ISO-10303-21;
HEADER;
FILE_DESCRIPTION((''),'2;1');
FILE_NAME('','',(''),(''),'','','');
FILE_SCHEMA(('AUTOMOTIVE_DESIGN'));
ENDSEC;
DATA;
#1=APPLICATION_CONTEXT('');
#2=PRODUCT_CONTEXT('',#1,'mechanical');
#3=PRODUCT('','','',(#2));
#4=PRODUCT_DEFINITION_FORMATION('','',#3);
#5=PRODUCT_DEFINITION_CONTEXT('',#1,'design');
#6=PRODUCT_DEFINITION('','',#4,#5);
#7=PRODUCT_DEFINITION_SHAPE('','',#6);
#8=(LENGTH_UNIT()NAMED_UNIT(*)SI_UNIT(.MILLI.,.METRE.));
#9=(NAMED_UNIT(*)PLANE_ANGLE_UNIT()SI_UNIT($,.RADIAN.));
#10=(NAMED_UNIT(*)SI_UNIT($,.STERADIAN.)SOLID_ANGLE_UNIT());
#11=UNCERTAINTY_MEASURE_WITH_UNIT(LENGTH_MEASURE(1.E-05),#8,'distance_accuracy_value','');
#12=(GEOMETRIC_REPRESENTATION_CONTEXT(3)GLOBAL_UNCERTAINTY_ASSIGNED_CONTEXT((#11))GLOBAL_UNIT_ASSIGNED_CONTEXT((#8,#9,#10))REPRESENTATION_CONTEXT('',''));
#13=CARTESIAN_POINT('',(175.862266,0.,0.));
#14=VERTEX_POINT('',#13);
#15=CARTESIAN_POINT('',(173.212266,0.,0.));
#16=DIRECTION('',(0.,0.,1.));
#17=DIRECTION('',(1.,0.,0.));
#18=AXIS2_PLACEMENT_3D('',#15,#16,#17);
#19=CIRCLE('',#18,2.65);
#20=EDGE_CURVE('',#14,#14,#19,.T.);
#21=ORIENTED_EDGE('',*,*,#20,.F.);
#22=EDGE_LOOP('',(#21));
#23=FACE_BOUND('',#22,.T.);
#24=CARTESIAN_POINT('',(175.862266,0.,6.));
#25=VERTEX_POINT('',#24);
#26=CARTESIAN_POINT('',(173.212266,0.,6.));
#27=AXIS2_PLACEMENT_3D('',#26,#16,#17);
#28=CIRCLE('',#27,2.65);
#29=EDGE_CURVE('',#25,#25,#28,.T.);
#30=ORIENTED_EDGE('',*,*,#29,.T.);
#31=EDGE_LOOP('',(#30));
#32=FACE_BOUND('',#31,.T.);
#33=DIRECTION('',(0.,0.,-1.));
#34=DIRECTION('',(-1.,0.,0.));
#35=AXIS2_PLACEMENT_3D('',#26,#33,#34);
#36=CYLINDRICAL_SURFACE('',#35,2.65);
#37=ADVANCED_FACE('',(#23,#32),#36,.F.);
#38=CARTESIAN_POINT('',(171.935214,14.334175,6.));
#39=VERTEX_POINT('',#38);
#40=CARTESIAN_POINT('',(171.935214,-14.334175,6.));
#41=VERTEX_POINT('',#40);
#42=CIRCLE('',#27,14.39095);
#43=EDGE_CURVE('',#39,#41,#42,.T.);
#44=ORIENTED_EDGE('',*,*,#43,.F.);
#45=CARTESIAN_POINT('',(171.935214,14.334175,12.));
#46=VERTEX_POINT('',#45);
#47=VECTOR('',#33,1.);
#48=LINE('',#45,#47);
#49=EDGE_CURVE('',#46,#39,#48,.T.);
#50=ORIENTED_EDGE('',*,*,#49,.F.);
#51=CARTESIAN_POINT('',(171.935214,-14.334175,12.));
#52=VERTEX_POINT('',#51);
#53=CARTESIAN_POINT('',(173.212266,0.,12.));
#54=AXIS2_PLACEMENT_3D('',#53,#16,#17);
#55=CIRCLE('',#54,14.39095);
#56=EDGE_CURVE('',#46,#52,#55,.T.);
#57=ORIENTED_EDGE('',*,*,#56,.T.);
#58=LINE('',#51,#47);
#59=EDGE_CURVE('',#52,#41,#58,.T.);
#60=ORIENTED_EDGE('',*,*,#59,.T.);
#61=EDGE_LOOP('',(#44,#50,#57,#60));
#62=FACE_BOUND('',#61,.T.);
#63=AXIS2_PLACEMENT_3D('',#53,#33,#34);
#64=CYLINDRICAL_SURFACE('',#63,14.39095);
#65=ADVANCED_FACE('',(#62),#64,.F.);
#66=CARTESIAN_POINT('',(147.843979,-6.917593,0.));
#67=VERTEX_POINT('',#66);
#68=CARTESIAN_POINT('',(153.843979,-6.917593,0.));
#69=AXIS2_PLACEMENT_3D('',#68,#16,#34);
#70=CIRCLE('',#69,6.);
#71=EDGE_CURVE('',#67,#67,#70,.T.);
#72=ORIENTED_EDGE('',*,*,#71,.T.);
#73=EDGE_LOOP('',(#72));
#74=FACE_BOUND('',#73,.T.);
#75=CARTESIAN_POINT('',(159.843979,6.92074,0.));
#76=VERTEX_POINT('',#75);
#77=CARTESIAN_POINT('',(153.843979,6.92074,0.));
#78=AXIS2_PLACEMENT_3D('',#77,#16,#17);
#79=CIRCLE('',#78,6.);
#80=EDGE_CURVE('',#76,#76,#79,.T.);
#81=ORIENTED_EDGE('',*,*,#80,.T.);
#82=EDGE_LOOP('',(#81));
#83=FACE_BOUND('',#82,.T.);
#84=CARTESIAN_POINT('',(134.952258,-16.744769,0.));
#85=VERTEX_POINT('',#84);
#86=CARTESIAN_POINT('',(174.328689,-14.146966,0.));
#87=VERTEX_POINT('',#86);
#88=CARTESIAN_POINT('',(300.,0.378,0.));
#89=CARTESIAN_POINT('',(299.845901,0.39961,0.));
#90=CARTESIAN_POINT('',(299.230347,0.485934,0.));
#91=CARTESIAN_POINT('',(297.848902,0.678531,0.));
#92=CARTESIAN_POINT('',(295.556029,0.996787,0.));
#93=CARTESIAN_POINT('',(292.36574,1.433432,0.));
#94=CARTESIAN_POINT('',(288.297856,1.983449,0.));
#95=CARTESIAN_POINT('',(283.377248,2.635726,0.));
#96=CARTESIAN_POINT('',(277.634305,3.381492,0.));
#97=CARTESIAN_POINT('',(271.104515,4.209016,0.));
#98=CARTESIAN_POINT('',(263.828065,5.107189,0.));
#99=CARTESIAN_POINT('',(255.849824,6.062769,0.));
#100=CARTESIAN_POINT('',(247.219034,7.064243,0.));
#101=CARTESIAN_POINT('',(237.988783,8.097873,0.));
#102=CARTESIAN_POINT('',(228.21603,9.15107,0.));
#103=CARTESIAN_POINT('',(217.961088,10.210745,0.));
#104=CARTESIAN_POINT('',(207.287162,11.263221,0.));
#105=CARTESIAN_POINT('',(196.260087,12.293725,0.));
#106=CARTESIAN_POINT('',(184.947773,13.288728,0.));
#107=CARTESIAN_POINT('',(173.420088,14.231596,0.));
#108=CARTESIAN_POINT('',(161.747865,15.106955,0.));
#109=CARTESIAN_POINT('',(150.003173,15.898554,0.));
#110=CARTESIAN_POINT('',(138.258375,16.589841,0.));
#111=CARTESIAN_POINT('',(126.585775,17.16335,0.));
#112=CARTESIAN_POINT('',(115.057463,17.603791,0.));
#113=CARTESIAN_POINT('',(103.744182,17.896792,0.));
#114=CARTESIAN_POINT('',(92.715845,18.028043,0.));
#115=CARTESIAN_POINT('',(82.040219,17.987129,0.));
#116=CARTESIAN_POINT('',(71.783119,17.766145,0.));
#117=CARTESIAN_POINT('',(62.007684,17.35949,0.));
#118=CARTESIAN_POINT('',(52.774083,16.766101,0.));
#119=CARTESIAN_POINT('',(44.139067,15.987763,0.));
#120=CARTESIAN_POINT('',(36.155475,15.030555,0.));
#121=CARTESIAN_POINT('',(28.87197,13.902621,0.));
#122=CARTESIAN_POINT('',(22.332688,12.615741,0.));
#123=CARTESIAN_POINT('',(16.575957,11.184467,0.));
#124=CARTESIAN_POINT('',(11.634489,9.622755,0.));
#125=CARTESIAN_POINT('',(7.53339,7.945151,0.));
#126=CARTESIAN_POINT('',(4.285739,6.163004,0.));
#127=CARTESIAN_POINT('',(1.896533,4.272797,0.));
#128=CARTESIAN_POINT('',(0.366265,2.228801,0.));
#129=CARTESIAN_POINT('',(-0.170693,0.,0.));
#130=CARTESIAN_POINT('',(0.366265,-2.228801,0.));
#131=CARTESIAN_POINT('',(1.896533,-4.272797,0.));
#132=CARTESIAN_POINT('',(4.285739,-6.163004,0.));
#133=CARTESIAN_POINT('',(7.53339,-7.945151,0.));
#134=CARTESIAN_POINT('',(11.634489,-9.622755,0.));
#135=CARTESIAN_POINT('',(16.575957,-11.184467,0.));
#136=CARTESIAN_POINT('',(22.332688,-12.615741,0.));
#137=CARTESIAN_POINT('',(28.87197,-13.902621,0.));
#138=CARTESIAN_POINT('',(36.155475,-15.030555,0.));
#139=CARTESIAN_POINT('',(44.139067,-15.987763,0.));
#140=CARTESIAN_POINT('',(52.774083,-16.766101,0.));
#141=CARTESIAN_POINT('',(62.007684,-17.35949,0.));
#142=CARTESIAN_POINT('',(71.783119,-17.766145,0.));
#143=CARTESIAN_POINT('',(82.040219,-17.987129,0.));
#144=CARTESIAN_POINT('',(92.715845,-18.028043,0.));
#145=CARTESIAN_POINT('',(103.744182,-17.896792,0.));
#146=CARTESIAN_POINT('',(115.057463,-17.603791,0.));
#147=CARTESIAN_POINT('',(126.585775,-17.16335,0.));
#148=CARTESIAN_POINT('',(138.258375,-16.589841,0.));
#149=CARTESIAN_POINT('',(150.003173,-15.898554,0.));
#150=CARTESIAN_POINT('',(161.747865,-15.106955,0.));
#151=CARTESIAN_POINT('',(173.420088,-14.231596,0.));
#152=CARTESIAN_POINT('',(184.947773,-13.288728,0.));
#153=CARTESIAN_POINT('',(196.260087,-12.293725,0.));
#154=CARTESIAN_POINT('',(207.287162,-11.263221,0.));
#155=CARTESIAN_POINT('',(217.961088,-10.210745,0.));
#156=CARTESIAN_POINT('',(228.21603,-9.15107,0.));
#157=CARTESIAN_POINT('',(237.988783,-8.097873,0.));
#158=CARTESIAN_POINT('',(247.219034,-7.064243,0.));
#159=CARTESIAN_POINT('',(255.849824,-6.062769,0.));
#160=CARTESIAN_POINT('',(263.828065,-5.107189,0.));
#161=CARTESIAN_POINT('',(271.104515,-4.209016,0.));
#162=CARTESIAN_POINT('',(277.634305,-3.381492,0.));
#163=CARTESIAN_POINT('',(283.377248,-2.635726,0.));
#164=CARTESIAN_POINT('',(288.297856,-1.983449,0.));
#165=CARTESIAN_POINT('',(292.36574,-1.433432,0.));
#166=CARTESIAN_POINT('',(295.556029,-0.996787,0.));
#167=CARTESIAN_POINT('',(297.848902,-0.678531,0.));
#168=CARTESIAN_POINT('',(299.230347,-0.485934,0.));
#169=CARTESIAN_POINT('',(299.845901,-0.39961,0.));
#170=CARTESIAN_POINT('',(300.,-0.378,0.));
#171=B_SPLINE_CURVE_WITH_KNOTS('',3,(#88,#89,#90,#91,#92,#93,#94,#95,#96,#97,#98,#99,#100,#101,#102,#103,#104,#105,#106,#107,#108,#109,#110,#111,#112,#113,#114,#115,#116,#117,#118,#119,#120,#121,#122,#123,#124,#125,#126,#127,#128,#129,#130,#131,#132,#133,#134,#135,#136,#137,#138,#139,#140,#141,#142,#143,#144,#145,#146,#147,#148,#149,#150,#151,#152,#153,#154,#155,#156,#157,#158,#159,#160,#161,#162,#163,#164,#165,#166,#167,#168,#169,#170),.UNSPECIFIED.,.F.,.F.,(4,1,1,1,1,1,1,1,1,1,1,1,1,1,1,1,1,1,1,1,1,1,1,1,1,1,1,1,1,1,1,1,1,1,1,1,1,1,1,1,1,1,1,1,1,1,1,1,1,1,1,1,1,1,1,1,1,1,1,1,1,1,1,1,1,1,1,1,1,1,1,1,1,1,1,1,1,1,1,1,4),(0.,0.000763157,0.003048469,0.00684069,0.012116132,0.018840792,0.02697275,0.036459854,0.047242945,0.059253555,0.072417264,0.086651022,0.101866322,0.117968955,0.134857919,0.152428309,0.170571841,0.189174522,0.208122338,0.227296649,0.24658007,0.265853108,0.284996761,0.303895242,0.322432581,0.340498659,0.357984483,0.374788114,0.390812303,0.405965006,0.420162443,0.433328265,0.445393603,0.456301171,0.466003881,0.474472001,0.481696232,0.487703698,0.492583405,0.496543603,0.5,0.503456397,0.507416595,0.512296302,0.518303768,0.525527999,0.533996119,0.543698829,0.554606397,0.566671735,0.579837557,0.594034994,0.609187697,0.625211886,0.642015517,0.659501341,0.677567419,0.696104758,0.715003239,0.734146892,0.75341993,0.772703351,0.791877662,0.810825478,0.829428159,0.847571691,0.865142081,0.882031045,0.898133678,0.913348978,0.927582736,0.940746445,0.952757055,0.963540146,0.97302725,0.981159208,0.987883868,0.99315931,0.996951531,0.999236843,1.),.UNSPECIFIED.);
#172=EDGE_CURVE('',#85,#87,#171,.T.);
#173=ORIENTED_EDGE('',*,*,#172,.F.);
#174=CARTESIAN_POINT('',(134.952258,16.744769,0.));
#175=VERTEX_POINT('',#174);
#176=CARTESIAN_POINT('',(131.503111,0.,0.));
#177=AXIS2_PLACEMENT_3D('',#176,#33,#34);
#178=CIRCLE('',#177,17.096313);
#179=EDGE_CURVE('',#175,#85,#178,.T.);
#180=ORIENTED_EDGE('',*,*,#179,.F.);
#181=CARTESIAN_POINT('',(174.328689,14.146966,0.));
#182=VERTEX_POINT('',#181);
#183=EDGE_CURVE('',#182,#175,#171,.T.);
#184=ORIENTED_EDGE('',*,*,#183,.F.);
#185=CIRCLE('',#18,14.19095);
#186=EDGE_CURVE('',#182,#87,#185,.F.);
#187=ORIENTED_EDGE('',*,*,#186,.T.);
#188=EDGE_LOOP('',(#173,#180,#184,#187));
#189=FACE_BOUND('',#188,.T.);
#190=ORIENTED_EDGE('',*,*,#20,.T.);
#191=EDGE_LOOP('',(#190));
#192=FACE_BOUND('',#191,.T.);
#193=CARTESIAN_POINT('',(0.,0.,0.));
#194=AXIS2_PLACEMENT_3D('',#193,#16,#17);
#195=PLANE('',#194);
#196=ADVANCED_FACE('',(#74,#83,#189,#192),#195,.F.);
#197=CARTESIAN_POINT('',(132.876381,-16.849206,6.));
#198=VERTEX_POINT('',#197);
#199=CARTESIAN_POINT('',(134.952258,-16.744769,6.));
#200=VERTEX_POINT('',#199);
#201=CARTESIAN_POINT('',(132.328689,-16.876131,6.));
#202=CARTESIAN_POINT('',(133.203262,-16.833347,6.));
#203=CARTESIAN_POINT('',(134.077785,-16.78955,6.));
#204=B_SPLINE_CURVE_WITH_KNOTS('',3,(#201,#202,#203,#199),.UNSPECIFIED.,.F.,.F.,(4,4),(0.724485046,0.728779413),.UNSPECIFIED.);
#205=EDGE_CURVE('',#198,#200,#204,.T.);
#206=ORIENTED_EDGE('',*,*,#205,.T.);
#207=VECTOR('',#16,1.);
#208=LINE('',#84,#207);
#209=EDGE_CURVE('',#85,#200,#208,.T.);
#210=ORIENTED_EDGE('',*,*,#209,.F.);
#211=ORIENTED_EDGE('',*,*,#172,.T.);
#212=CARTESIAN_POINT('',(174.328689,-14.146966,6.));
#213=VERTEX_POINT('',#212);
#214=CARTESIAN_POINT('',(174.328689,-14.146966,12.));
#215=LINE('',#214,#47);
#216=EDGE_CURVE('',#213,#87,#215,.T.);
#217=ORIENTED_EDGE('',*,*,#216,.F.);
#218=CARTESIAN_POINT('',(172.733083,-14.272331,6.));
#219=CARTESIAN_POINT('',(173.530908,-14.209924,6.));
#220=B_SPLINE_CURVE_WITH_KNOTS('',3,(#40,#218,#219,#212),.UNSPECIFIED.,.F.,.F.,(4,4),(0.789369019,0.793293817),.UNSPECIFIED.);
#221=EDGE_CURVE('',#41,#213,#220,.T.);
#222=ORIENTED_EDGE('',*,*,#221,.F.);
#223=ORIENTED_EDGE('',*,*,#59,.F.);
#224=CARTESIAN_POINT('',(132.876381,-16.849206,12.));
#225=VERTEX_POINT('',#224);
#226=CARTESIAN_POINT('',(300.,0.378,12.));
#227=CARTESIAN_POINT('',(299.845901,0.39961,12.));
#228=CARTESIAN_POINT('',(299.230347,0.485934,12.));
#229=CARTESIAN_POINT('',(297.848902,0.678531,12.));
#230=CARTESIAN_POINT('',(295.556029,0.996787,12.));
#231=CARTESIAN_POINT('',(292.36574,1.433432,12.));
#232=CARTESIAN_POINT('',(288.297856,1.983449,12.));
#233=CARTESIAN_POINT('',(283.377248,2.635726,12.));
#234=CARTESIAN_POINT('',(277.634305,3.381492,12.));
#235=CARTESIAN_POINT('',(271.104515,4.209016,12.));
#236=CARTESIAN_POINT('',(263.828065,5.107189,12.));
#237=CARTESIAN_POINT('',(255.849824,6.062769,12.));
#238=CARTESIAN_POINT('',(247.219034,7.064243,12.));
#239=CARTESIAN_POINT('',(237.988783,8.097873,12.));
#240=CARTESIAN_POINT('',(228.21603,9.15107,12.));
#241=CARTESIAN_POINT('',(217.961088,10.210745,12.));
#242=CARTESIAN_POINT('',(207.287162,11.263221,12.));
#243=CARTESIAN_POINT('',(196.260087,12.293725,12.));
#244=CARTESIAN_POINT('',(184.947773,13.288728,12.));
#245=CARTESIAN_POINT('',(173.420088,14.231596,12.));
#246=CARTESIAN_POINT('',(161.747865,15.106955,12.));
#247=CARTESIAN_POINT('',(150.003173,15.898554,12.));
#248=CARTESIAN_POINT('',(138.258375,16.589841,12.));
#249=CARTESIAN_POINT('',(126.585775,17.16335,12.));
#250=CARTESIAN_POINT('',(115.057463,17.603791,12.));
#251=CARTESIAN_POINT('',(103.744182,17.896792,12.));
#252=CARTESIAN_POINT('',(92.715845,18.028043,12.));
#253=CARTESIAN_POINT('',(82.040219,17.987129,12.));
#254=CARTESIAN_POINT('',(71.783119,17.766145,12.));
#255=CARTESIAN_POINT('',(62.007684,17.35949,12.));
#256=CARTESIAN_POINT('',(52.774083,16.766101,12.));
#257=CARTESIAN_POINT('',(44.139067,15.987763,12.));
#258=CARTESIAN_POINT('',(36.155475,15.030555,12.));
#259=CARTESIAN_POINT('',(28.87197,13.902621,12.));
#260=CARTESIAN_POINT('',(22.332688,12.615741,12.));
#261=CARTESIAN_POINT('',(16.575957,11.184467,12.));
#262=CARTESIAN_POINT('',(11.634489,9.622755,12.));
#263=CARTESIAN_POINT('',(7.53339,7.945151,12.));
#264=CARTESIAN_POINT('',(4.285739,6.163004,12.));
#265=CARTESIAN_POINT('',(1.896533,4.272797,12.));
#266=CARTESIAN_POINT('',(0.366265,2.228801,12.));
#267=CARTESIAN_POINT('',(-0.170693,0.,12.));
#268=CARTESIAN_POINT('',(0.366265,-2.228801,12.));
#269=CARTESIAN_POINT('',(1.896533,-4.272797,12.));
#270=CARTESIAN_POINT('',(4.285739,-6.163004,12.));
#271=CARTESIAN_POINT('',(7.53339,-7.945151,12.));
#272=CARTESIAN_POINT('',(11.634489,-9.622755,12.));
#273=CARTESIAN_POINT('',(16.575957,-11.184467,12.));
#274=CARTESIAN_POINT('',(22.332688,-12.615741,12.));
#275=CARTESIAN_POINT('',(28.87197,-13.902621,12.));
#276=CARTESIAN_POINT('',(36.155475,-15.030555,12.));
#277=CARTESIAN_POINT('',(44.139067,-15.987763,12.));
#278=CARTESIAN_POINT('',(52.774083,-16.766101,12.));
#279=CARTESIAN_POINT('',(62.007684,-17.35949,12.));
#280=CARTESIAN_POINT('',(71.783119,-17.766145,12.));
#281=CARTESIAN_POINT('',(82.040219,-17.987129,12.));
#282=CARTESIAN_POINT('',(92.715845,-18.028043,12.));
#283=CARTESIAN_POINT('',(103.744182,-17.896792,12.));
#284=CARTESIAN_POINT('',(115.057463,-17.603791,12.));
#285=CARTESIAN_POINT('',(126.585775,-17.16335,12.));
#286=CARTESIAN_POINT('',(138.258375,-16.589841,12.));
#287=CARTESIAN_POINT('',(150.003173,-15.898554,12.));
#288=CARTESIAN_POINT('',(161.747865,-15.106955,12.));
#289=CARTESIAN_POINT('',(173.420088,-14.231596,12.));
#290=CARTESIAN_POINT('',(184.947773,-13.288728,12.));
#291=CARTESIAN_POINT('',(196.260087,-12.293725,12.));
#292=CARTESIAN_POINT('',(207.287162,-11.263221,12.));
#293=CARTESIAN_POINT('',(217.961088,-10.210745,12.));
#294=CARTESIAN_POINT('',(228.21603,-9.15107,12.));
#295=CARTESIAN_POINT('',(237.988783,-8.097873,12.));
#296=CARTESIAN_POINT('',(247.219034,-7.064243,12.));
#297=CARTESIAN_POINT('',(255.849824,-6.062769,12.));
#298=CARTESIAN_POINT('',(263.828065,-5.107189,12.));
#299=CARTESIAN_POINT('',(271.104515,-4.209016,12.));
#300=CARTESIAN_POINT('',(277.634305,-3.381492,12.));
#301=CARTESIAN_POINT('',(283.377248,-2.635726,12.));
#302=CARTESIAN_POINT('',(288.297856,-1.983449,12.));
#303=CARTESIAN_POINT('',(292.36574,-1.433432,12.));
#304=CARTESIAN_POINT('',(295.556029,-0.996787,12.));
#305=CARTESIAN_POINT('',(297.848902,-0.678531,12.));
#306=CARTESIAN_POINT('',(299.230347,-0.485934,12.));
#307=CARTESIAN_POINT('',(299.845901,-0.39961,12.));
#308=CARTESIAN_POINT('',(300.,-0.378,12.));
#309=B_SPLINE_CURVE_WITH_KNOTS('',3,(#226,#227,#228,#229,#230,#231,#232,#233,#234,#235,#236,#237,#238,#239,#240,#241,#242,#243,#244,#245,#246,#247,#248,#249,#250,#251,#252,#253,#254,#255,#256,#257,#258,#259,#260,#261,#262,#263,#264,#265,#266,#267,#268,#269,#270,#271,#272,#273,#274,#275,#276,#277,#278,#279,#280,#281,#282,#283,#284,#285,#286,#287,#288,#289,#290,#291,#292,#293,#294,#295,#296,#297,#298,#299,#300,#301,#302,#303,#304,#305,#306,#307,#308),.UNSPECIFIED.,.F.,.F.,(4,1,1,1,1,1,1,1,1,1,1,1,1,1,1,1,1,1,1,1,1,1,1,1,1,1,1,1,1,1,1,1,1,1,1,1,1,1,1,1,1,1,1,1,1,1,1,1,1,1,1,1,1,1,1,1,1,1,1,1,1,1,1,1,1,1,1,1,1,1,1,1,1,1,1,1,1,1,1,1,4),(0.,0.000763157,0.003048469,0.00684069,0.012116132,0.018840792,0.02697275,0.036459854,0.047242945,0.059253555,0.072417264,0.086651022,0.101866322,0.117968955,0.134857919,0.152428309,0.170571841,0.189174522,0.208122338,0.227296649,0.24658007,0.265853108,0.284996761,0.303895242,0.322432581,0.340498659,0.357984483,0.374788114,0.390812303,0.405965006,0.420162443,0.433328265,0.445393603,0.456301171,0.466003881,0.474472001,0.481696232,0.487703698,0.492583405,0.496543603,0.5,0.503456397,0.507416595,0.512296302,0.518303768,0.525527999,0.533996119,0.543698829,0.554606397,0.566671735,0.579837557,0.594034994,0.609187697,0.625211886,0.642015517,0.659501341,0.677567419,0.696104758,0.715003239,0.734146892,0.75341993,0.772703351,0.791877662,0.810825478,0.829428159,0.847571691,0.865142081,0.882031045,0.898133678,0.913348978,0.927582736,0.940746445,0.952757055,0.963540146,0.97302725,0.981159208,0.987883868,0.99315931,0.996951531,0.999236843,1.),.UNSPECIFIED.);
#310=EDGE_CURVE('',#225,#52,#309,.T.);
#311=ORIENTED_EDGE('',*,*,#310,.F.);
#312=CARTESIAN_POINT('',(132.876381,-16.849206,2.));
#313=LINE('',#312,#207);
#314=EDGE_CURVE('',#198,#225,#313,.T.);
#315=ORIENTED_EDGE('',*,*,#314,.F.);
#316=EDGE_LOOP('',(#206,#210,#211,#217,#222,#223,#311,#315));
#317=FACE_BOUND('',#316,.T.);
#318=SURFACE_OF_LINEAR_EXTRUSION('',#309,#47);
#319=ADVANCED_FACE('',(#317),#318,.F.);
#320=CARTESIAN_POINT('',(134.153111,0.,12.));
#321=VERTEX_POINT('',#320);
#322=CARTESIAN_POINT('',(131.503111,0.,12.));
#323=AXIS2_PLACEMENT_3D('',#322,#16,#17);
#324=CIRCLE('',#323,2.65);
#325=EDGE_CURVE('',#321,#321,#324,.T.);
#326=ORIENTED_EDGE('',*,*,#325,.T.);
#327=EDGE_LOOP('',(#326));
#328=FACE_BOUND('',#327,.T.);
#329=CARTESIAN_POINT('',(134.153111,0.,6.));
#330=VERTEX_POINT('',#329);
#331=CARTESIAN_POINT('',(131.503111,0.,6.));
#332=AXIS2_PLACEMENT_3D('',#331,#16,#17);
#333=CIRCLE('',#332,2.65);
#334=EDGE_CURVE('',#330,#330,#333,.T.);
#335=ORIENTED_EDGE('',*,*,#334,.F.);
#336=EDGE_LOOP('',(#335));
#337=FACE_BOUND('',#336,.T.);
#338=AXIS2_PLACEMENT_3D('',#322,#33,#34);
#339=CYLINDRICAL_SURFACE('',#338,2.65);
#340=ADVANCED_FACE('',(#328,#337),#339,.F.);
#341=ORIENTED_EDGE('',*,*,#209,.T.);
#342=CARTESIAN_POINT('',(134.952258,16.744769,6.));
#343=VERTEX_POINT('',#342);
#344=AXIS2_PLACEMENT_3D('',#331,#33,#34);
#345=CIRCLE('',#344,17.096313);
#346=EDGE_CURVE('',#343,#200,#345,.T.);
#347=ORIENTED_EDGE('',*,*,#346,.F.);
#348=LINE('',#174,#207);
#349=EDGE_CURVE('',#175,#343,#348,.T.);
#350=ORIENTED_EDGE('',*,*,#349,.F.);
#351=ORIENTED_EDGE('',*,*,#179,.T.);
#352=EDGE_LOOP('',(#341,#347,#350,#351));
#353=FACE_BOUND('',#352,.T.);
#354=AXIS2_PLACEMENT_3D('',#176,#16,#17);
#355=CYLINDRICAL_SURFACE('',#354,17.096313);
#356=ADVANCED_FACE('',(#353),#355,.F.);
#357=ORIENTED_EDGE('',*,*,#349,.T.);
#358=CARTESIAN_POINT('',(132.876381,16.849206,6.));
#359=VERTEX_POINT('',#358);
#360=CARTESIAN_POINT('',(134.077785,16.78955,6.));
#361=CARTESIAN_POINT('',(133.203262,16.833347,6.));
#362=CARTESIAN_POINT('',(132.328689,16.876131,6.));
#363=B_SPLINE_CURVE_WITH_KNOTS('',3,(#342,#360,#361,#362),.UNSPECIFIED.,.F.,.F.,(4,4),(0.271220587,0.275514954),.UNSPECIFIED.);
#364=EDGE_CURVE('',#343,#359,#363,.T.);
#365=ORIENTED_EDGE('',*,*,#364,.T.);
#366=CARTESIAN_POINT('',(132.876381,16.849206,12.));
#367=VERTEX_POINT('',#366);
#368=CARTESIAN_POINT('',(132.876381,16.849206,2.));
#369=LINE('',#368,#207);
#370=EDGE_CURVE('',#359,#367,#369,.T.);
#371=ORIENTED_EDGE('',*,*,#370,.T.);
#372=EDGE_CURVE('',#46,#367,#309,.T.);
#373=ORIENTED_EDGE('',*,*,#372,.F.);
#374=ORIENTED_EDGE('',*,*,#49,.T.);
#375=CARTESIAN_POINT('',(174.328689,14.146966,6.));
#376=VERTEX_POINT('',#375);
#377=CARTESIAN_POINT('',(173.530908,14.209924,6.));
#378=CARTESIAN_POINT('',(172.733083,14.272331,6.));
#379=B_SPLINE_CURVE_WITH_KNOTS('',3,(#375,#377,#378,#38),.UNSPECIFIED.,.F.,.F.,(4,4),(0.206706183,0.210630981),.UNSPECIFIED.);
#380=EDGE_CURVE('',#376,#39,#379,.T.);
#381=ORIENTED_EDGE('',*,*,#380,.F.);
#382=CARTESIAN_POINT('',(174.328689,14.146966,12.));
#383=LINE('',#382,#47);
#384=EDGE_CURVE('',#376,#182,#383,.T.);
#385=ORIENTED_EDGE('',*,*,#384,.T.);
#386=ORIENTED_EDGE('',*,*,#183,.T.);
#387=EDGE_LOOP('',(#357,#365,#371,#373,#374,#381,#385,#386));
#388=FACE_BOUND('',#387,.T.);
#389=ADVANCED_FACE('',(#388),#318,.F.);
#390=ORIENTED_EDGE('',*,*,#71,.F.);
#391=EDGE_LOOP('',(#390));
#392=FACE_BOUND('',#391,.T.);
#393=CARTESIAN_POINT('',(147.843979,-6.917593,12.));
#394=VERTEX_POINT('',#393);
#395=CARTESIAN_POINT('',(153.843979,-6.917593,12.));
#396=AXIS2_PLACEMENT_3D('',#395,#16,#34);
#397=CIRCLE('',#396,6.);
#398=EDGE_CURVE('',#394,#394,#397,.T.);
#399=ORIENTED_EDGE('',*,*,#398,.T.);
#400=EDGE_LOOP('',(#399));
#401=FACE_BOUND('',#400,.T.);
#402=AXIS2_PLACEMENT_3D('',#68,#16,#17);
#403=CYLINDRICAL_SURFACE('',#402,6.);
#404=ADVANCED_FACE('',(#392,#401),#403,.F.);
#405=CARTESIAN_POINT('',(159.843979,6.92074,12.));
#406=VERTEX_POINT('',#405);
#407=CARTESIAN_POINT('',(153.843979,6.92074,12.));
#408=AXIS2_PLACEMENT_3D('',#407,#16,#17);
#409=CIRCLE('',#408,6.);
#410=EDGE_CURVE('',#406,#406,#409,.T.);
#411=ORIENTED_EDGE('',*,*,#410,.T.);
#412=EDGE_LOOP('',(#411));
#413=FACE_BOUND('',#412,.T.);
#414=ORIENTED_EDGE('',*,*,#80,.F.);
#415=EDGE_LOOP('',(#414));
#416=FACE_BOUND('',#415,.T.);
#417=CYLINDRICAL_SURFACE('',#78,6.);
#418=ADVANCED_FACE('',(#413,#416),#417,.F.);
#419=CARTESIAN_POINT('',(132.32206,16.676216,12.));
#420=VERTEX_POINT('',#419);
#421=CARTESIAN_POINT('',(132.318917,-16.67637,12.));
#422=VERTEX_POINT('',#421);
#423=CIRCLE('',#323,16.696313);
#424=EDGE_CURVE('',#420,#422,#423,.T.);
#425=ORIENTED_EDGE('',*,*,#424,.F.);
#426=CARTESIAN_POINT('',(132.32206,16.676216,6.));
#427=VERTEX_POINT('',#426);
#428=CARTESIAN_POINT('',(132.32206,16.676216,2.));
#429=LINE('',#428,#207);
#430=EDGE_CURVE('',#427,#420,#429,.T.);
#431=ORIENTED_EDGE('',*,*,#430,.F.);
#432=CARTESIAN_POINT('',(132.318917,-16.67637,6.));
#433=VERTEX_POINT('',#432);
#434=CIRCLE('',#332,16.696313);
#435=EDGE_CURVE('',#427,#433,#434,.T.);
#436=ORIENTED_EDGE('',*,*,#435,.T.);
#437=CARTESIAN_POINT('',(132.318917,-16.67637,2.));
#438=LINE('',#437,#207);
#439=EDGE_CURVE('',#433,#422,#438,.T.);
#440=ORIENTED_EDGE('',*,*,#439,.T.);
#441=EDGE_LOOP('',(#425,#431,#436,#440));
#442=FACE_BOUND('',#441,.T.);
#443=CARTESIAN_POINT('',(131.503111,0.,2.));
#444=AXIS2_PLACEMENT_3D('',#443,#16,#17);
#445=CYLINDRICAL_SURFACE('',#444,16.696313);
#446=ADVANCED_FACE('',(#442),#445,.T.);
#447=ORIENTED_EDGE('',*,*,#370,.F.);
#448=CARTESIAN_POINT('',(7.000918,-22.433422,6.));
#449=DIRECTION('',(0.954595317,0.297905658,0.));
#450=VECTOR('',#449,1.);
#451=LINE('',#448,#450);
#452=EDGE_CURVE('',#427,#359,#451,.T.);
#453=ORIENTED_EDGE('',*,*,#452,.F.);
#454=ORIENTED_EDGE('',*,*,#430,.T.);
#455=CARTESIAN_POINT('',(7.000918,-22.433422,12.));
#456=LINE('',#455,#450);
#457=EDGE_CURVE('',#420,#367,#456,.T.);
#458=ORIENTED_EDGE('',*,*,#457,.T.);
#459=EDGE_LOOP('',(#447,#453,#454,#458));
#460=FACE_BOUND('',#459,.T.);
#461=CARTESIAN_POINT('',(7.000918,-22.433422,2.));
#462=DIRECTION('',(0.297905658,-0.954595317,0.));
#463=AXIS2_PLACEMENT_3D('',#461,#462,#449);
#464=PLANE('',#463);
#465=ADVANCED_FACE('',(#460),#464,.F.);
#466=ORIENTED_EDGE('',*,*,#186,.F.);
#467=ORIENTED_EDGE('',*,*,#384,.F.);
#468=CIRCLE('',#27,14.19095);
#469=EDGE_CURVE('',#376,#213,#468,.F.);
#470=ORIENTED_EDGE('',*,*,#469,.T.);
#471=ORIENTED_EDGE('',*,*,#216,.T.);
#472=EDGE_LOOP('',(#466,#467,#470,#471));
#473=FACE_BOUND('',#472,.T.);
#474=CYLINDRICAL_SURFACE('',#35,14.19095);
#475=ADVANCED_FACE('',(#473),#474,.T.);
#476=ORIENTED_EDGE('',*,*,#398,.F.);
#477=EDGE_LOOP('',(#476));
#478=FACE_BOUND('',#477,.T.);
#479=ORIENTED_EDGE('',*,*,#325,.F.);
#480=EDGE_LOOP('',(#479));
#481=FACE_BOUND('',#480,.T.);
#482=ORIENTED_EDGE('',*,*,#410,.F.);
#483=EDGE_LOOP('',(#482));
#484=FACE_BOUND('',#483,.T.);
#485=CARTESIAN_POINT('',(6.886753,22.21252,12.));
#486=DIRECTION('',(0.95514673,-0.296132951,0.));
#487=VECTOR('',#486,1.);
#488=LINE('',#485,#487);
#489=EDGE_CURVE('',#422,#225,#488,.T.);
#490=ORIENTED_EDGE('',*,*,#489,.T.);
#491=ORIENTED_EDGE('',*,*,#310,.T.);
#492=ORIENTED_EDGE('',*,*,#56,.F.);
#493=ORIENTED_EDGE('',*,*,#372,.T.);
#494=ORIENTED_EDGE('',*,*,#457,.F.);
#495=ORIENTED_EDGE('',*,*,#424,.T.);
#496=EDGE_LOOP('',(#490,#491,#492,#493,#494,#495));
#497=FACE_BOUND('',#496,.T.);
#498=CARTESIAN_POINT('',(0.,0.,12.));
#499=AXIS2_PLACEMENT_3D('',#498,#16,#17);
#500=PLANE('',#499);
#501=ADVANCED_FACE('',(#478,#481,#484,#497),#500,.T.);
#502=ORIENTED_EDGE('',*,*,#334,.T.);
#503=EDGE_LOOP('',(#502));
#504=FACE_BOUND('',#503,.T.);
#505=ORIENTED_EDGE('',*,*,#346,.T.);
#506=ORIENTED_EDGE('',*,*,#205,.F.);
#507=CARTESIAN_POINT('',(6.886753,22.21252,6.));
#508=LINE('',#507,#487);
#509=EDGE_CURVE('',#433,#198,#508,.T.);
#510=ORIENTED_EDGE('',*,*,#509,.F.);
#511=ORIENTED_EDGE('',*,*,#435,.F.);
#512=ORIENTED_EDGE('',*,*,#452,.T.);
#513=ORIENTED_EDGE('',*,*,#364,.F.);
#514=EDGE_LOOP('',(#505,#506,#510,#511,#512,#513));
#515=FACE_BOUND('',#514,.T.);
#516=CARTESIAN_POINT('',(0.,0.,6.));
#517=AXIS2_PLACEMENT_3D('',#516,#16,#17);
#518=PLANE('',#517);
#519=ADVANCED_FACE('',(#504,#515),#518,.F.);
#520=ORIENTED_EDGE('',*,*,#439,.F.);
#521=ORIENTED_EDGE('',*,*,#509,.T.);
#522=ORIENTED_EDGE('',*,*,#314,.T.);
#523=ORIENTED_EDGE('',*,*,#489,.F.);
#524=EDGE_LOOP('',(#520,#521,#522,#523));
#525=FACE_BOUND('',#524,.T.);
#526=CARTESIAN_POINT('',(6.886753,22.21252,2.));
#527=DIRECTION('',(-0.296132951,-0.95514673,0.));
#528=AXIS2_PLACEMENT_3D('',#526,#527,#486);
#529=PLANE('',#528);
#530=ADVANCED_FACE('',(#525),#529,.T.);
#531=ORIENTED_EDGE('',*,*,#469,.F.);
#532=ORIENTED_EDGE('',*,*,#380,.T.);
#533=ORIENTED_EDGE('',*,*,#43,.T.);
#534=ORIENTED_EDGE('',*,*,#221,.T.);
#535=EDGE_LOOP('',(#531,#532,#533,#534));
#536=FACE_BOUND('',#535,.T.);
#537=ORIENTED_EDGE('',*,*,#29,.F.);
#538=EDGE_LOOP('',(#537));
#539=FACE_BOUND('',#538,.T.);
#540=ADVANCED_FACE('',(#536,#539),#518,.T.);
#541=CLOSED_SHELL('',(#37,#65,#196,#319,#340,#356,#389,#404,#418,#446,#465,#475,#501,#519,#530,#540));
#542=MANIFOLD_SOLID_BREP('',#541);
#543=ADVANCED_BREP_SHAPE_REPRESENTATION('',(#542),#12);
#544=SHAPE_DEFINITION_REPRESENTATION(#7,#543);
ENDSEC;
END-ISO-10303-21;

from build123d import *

# Parameters (mm, degrees)
BOSS_EXTRUDE2_DEPTH = 12
SKETCH2_R           = 14.190949605
SKETCH2_R_2         = 2.65
BOSS_EXTRUDE3_DEPTH = 6
BOSS_EXTRUDE4_START = 6
SKETCH2_24_R        = 16.896313039
SKETCH2_24_R_2      = 2.65
BOSS_EXTRUDE4_DEPTH = 6
CUT_EXTRUDE3_DEPTH  = 189.258998684
CUT_EXTRUDE5_DEPTH  = 189.258998684
CUT_EXTRUDE6_START  = -10
CUT_EXTRUDE6_DEPTH  = 10
SKETCH7_R           = 6
CUT_EXTRUDE7_DEPTH  = 189.54140377


with BuildPart() as part:
    # Sketch2<21> → Boss-Extrude2 (new body)
    with BuildSketch(Plane.XY):
        with BuildLine():
            add(Edge.make_bspline(
                [(174.328689217, 14.146966087), (174.040831823, 14.169682671), (169.855389857, 14.498930953), (161.747864996, 15.106955372), (150.003172521, 15.898554075), (140.188386584, 16.476242113), (134.2963802, 16.779872269), (132.328689217, 16.8761315)],
                knots=[0.206706183, 0.206706183, 0.206706183, 0.206706183, 0.208122338, 0.227296649, 0.24658007, 0.265853108, 0.275514954, 0.275514954, 0.275514954, 0.275514954], degree=3))
            ThreePointArc((132.328689217, 16.8761315), (148.39942372, 0), (132.328689217, -16.8761315))
            add(Edge.make_bspline(
                [(132.328689217, -16.8761315), (134.2963802, -16.779872269), (140.188386584, -16.476242113), (150.003172521, -15.898554075), (161.747864996, -15.106955372), (169.855389857, -14.498930953), (174.040831823, -14.169682671), (174.328689217, -14.146966087)],
                knots=[0.724485046, 0.724485046, 0.724485046, 0.724485046, 0.734146892, 0.75341993, 0.772703351, 0.791877662, 0.793293817, 0.793293817, 0.793293817, 0.793293817], degree=3))
            ThreePointArc((174.328689217, -14.146966087), (159.021316208, 0), (174.328689217, 14.146966087))
        make_face()
    extrude(amount=BOSS_EXTRUDE2_DEPTH)

    # Sketch2 → Boss-Extrude3 (add)
    with BuildSketch(Plane.XY):
        with Locations((173.212265813, 0)):
            Circle(SKETCH2_R)
        with Locations((173.212265813, 0)):
            Circle(SKETCH2_R_2, mode=Mode.SUBTRACT)
    extrude(amount=BOSS_EXTRUDE3_DEPTH)

    # Sketch2<24> → Boss-Extrude4 (add)
    with BuildSketch(Plane.XY.offset(BOSS_EXTRUDE4_START)):
        with Locations((131.503110681, 0)):
            Circle(SKETCH2_24_R)
        with Locations((131.503110681, 0)):
            Circle(SKETCH2_24_R_2, mode=Mode.SUBTRACT)
    extrude(amount=BOSS_EXTRUDE4_DEPTH)

    # Sketch4 → Cut-Extrude3 (cut, through all)
    with BuildSketch(Plane.XY.offset(6)):
        with BuildLine():
            add(Edge.make_bspline(
                [(174.328689217, 14.146966087), (173.530907872, 14.209923879), (172.733082923, 14.272330644), (171.935214304, 14.334174897)],
                knots=[0.206706183, 0.206706183, 0.206706183, 0.206706183, 0.210630981, 0.210630981, 0.210630981, 0.210630981], degree=3))
            ThreePointArc((171.935214304, 14.334174897), (158.821316208, -4e-08), (171.935214382, -14.334174904))
            add(Edge.make_bspline(
                [(171.935214382, -14.334174904), (172.733082975, -14.272330648), (173.530907898, -14.209923882), (174.328689217, -14.146966087)],
                knots=[0.789369019, 0.789369019, 0.789369019, 0.789369019, 0.793293817, 0.793293817, 0.793293817, 0.793293817], degree=3))
            ThreePointArc((174.328689217, -14.146966087), (159.021316208, 0), (174.328689217, 14.146966087))
        make_face()
    extrude(amount=CUT_EXTRUDE3_DEPTH, mode=Mode.SUBTRACT)

    # Sketch5 → Cut-Extrude5 (cut, through all)
    with BuildSketch(Plane(origin=(0, 0, 6), x_dir=(-1, 0, 0), z_dir=(0, 0, -1))):
        with BuildLine():
            ThreePointArc((-132.328689217, -16.8761315), (-148.39942372, 0), (-132.328689217, 16.8761315))
            add(Edge.make_bspline(
                [(-134.952258251, 16.74476935), (-134.077785352, 16.789550444), (-133.203262036, 16.833347492), (-132.328689217, 16.8761315)],
                knots=[0.271220587, 0.271220587, 0.271220587, 0.271220587, 0.275514954, 0.275514954, 0.275514954, 0.275514954], degree=3))
            ThreePointArc((-134.952258251, 16.74476935), (-148.59942372, 0), (-134.952258251, -16.74476935))
            add(Edge.make_bspline(
                [(-132.328689217, -16.8761315), (-133.203262036, -16.833347492), (-134.077785352, -16.789550444), (-134.952258251, -16.74476935)],
                knots=[0.724485046, 0.724485046, 0.724485046, 0.724485046, 0.728779413, 0.728779413, 0.728779413, 0.728779413], degree=3))
        make_face()
    extrude(amount=CUT_EXTRUDE5_DEPTH, mode=Mode.SUBTRACT)

    # Sketch6 → Cut-Extrude6 (cut)
    with BuildSketch(Plane.XY.offset(12).offset(CUT_EXTRUDE6_START)):
        with BuildLine():
            ThreePointArc((132.318916925, -16.676370387), (114.806797716, 0.001573603), (132.322060358, 16.676216313))
            Line((132.322060358, 16.676216313), (132.876380652, 16.849206008))
            add(Edge.make_bspline(
                [(132.876380652, 16.849206008), (132.693819003, 16.85822514), (132.511255189, 16.867200392), (132.328689217, 16.8761315)],
                knots=[0.27461851, 0.27461851, 0.27461851, 0.27461851, 0.275514954, 0.275514954, 0.275514954, 0.275514954], degree=3))
            ThreePointArc((132.328689217, 16.8761315), (114.606797642, 0), (132.328689217, -16.8761315))
            add(Edge.make_bspline(
                [(132.328689217, -16.8761315), (132.511255189, -16.867200392), (132.693819003, -16.85822514), (132.876380652, -16.849206008)],
                knots=[0.724485046, 0.724485046, 0.724485046, 0.724485046, 0.72538149, 0.72538149, 0.72538149, 0.72538149], degree=3))
            Line((132.876380652, -16.849206008), (132.318916925, -16.676370387))
        make_face()
    extrude(amount=CUT_EXTRUDE6_DEPTH, mode=Mode.SUBTRACT)

    # Sketch7 → Cut-Extrude7 (cut, through all)
    with BuildSketch(Plane.XY.offset(12)):
        with Locations((153.843979232, 6.920740335)):
            Circle(SKETCH7_R)
        with Locations((153.843979232, -6.917593129)):
            Circle(SKETCH7_R)
    extrude(amount=-CUT_EXTRUDE7_DEPTH, mode=Mode.SUBTRACT)


solid = part.part
